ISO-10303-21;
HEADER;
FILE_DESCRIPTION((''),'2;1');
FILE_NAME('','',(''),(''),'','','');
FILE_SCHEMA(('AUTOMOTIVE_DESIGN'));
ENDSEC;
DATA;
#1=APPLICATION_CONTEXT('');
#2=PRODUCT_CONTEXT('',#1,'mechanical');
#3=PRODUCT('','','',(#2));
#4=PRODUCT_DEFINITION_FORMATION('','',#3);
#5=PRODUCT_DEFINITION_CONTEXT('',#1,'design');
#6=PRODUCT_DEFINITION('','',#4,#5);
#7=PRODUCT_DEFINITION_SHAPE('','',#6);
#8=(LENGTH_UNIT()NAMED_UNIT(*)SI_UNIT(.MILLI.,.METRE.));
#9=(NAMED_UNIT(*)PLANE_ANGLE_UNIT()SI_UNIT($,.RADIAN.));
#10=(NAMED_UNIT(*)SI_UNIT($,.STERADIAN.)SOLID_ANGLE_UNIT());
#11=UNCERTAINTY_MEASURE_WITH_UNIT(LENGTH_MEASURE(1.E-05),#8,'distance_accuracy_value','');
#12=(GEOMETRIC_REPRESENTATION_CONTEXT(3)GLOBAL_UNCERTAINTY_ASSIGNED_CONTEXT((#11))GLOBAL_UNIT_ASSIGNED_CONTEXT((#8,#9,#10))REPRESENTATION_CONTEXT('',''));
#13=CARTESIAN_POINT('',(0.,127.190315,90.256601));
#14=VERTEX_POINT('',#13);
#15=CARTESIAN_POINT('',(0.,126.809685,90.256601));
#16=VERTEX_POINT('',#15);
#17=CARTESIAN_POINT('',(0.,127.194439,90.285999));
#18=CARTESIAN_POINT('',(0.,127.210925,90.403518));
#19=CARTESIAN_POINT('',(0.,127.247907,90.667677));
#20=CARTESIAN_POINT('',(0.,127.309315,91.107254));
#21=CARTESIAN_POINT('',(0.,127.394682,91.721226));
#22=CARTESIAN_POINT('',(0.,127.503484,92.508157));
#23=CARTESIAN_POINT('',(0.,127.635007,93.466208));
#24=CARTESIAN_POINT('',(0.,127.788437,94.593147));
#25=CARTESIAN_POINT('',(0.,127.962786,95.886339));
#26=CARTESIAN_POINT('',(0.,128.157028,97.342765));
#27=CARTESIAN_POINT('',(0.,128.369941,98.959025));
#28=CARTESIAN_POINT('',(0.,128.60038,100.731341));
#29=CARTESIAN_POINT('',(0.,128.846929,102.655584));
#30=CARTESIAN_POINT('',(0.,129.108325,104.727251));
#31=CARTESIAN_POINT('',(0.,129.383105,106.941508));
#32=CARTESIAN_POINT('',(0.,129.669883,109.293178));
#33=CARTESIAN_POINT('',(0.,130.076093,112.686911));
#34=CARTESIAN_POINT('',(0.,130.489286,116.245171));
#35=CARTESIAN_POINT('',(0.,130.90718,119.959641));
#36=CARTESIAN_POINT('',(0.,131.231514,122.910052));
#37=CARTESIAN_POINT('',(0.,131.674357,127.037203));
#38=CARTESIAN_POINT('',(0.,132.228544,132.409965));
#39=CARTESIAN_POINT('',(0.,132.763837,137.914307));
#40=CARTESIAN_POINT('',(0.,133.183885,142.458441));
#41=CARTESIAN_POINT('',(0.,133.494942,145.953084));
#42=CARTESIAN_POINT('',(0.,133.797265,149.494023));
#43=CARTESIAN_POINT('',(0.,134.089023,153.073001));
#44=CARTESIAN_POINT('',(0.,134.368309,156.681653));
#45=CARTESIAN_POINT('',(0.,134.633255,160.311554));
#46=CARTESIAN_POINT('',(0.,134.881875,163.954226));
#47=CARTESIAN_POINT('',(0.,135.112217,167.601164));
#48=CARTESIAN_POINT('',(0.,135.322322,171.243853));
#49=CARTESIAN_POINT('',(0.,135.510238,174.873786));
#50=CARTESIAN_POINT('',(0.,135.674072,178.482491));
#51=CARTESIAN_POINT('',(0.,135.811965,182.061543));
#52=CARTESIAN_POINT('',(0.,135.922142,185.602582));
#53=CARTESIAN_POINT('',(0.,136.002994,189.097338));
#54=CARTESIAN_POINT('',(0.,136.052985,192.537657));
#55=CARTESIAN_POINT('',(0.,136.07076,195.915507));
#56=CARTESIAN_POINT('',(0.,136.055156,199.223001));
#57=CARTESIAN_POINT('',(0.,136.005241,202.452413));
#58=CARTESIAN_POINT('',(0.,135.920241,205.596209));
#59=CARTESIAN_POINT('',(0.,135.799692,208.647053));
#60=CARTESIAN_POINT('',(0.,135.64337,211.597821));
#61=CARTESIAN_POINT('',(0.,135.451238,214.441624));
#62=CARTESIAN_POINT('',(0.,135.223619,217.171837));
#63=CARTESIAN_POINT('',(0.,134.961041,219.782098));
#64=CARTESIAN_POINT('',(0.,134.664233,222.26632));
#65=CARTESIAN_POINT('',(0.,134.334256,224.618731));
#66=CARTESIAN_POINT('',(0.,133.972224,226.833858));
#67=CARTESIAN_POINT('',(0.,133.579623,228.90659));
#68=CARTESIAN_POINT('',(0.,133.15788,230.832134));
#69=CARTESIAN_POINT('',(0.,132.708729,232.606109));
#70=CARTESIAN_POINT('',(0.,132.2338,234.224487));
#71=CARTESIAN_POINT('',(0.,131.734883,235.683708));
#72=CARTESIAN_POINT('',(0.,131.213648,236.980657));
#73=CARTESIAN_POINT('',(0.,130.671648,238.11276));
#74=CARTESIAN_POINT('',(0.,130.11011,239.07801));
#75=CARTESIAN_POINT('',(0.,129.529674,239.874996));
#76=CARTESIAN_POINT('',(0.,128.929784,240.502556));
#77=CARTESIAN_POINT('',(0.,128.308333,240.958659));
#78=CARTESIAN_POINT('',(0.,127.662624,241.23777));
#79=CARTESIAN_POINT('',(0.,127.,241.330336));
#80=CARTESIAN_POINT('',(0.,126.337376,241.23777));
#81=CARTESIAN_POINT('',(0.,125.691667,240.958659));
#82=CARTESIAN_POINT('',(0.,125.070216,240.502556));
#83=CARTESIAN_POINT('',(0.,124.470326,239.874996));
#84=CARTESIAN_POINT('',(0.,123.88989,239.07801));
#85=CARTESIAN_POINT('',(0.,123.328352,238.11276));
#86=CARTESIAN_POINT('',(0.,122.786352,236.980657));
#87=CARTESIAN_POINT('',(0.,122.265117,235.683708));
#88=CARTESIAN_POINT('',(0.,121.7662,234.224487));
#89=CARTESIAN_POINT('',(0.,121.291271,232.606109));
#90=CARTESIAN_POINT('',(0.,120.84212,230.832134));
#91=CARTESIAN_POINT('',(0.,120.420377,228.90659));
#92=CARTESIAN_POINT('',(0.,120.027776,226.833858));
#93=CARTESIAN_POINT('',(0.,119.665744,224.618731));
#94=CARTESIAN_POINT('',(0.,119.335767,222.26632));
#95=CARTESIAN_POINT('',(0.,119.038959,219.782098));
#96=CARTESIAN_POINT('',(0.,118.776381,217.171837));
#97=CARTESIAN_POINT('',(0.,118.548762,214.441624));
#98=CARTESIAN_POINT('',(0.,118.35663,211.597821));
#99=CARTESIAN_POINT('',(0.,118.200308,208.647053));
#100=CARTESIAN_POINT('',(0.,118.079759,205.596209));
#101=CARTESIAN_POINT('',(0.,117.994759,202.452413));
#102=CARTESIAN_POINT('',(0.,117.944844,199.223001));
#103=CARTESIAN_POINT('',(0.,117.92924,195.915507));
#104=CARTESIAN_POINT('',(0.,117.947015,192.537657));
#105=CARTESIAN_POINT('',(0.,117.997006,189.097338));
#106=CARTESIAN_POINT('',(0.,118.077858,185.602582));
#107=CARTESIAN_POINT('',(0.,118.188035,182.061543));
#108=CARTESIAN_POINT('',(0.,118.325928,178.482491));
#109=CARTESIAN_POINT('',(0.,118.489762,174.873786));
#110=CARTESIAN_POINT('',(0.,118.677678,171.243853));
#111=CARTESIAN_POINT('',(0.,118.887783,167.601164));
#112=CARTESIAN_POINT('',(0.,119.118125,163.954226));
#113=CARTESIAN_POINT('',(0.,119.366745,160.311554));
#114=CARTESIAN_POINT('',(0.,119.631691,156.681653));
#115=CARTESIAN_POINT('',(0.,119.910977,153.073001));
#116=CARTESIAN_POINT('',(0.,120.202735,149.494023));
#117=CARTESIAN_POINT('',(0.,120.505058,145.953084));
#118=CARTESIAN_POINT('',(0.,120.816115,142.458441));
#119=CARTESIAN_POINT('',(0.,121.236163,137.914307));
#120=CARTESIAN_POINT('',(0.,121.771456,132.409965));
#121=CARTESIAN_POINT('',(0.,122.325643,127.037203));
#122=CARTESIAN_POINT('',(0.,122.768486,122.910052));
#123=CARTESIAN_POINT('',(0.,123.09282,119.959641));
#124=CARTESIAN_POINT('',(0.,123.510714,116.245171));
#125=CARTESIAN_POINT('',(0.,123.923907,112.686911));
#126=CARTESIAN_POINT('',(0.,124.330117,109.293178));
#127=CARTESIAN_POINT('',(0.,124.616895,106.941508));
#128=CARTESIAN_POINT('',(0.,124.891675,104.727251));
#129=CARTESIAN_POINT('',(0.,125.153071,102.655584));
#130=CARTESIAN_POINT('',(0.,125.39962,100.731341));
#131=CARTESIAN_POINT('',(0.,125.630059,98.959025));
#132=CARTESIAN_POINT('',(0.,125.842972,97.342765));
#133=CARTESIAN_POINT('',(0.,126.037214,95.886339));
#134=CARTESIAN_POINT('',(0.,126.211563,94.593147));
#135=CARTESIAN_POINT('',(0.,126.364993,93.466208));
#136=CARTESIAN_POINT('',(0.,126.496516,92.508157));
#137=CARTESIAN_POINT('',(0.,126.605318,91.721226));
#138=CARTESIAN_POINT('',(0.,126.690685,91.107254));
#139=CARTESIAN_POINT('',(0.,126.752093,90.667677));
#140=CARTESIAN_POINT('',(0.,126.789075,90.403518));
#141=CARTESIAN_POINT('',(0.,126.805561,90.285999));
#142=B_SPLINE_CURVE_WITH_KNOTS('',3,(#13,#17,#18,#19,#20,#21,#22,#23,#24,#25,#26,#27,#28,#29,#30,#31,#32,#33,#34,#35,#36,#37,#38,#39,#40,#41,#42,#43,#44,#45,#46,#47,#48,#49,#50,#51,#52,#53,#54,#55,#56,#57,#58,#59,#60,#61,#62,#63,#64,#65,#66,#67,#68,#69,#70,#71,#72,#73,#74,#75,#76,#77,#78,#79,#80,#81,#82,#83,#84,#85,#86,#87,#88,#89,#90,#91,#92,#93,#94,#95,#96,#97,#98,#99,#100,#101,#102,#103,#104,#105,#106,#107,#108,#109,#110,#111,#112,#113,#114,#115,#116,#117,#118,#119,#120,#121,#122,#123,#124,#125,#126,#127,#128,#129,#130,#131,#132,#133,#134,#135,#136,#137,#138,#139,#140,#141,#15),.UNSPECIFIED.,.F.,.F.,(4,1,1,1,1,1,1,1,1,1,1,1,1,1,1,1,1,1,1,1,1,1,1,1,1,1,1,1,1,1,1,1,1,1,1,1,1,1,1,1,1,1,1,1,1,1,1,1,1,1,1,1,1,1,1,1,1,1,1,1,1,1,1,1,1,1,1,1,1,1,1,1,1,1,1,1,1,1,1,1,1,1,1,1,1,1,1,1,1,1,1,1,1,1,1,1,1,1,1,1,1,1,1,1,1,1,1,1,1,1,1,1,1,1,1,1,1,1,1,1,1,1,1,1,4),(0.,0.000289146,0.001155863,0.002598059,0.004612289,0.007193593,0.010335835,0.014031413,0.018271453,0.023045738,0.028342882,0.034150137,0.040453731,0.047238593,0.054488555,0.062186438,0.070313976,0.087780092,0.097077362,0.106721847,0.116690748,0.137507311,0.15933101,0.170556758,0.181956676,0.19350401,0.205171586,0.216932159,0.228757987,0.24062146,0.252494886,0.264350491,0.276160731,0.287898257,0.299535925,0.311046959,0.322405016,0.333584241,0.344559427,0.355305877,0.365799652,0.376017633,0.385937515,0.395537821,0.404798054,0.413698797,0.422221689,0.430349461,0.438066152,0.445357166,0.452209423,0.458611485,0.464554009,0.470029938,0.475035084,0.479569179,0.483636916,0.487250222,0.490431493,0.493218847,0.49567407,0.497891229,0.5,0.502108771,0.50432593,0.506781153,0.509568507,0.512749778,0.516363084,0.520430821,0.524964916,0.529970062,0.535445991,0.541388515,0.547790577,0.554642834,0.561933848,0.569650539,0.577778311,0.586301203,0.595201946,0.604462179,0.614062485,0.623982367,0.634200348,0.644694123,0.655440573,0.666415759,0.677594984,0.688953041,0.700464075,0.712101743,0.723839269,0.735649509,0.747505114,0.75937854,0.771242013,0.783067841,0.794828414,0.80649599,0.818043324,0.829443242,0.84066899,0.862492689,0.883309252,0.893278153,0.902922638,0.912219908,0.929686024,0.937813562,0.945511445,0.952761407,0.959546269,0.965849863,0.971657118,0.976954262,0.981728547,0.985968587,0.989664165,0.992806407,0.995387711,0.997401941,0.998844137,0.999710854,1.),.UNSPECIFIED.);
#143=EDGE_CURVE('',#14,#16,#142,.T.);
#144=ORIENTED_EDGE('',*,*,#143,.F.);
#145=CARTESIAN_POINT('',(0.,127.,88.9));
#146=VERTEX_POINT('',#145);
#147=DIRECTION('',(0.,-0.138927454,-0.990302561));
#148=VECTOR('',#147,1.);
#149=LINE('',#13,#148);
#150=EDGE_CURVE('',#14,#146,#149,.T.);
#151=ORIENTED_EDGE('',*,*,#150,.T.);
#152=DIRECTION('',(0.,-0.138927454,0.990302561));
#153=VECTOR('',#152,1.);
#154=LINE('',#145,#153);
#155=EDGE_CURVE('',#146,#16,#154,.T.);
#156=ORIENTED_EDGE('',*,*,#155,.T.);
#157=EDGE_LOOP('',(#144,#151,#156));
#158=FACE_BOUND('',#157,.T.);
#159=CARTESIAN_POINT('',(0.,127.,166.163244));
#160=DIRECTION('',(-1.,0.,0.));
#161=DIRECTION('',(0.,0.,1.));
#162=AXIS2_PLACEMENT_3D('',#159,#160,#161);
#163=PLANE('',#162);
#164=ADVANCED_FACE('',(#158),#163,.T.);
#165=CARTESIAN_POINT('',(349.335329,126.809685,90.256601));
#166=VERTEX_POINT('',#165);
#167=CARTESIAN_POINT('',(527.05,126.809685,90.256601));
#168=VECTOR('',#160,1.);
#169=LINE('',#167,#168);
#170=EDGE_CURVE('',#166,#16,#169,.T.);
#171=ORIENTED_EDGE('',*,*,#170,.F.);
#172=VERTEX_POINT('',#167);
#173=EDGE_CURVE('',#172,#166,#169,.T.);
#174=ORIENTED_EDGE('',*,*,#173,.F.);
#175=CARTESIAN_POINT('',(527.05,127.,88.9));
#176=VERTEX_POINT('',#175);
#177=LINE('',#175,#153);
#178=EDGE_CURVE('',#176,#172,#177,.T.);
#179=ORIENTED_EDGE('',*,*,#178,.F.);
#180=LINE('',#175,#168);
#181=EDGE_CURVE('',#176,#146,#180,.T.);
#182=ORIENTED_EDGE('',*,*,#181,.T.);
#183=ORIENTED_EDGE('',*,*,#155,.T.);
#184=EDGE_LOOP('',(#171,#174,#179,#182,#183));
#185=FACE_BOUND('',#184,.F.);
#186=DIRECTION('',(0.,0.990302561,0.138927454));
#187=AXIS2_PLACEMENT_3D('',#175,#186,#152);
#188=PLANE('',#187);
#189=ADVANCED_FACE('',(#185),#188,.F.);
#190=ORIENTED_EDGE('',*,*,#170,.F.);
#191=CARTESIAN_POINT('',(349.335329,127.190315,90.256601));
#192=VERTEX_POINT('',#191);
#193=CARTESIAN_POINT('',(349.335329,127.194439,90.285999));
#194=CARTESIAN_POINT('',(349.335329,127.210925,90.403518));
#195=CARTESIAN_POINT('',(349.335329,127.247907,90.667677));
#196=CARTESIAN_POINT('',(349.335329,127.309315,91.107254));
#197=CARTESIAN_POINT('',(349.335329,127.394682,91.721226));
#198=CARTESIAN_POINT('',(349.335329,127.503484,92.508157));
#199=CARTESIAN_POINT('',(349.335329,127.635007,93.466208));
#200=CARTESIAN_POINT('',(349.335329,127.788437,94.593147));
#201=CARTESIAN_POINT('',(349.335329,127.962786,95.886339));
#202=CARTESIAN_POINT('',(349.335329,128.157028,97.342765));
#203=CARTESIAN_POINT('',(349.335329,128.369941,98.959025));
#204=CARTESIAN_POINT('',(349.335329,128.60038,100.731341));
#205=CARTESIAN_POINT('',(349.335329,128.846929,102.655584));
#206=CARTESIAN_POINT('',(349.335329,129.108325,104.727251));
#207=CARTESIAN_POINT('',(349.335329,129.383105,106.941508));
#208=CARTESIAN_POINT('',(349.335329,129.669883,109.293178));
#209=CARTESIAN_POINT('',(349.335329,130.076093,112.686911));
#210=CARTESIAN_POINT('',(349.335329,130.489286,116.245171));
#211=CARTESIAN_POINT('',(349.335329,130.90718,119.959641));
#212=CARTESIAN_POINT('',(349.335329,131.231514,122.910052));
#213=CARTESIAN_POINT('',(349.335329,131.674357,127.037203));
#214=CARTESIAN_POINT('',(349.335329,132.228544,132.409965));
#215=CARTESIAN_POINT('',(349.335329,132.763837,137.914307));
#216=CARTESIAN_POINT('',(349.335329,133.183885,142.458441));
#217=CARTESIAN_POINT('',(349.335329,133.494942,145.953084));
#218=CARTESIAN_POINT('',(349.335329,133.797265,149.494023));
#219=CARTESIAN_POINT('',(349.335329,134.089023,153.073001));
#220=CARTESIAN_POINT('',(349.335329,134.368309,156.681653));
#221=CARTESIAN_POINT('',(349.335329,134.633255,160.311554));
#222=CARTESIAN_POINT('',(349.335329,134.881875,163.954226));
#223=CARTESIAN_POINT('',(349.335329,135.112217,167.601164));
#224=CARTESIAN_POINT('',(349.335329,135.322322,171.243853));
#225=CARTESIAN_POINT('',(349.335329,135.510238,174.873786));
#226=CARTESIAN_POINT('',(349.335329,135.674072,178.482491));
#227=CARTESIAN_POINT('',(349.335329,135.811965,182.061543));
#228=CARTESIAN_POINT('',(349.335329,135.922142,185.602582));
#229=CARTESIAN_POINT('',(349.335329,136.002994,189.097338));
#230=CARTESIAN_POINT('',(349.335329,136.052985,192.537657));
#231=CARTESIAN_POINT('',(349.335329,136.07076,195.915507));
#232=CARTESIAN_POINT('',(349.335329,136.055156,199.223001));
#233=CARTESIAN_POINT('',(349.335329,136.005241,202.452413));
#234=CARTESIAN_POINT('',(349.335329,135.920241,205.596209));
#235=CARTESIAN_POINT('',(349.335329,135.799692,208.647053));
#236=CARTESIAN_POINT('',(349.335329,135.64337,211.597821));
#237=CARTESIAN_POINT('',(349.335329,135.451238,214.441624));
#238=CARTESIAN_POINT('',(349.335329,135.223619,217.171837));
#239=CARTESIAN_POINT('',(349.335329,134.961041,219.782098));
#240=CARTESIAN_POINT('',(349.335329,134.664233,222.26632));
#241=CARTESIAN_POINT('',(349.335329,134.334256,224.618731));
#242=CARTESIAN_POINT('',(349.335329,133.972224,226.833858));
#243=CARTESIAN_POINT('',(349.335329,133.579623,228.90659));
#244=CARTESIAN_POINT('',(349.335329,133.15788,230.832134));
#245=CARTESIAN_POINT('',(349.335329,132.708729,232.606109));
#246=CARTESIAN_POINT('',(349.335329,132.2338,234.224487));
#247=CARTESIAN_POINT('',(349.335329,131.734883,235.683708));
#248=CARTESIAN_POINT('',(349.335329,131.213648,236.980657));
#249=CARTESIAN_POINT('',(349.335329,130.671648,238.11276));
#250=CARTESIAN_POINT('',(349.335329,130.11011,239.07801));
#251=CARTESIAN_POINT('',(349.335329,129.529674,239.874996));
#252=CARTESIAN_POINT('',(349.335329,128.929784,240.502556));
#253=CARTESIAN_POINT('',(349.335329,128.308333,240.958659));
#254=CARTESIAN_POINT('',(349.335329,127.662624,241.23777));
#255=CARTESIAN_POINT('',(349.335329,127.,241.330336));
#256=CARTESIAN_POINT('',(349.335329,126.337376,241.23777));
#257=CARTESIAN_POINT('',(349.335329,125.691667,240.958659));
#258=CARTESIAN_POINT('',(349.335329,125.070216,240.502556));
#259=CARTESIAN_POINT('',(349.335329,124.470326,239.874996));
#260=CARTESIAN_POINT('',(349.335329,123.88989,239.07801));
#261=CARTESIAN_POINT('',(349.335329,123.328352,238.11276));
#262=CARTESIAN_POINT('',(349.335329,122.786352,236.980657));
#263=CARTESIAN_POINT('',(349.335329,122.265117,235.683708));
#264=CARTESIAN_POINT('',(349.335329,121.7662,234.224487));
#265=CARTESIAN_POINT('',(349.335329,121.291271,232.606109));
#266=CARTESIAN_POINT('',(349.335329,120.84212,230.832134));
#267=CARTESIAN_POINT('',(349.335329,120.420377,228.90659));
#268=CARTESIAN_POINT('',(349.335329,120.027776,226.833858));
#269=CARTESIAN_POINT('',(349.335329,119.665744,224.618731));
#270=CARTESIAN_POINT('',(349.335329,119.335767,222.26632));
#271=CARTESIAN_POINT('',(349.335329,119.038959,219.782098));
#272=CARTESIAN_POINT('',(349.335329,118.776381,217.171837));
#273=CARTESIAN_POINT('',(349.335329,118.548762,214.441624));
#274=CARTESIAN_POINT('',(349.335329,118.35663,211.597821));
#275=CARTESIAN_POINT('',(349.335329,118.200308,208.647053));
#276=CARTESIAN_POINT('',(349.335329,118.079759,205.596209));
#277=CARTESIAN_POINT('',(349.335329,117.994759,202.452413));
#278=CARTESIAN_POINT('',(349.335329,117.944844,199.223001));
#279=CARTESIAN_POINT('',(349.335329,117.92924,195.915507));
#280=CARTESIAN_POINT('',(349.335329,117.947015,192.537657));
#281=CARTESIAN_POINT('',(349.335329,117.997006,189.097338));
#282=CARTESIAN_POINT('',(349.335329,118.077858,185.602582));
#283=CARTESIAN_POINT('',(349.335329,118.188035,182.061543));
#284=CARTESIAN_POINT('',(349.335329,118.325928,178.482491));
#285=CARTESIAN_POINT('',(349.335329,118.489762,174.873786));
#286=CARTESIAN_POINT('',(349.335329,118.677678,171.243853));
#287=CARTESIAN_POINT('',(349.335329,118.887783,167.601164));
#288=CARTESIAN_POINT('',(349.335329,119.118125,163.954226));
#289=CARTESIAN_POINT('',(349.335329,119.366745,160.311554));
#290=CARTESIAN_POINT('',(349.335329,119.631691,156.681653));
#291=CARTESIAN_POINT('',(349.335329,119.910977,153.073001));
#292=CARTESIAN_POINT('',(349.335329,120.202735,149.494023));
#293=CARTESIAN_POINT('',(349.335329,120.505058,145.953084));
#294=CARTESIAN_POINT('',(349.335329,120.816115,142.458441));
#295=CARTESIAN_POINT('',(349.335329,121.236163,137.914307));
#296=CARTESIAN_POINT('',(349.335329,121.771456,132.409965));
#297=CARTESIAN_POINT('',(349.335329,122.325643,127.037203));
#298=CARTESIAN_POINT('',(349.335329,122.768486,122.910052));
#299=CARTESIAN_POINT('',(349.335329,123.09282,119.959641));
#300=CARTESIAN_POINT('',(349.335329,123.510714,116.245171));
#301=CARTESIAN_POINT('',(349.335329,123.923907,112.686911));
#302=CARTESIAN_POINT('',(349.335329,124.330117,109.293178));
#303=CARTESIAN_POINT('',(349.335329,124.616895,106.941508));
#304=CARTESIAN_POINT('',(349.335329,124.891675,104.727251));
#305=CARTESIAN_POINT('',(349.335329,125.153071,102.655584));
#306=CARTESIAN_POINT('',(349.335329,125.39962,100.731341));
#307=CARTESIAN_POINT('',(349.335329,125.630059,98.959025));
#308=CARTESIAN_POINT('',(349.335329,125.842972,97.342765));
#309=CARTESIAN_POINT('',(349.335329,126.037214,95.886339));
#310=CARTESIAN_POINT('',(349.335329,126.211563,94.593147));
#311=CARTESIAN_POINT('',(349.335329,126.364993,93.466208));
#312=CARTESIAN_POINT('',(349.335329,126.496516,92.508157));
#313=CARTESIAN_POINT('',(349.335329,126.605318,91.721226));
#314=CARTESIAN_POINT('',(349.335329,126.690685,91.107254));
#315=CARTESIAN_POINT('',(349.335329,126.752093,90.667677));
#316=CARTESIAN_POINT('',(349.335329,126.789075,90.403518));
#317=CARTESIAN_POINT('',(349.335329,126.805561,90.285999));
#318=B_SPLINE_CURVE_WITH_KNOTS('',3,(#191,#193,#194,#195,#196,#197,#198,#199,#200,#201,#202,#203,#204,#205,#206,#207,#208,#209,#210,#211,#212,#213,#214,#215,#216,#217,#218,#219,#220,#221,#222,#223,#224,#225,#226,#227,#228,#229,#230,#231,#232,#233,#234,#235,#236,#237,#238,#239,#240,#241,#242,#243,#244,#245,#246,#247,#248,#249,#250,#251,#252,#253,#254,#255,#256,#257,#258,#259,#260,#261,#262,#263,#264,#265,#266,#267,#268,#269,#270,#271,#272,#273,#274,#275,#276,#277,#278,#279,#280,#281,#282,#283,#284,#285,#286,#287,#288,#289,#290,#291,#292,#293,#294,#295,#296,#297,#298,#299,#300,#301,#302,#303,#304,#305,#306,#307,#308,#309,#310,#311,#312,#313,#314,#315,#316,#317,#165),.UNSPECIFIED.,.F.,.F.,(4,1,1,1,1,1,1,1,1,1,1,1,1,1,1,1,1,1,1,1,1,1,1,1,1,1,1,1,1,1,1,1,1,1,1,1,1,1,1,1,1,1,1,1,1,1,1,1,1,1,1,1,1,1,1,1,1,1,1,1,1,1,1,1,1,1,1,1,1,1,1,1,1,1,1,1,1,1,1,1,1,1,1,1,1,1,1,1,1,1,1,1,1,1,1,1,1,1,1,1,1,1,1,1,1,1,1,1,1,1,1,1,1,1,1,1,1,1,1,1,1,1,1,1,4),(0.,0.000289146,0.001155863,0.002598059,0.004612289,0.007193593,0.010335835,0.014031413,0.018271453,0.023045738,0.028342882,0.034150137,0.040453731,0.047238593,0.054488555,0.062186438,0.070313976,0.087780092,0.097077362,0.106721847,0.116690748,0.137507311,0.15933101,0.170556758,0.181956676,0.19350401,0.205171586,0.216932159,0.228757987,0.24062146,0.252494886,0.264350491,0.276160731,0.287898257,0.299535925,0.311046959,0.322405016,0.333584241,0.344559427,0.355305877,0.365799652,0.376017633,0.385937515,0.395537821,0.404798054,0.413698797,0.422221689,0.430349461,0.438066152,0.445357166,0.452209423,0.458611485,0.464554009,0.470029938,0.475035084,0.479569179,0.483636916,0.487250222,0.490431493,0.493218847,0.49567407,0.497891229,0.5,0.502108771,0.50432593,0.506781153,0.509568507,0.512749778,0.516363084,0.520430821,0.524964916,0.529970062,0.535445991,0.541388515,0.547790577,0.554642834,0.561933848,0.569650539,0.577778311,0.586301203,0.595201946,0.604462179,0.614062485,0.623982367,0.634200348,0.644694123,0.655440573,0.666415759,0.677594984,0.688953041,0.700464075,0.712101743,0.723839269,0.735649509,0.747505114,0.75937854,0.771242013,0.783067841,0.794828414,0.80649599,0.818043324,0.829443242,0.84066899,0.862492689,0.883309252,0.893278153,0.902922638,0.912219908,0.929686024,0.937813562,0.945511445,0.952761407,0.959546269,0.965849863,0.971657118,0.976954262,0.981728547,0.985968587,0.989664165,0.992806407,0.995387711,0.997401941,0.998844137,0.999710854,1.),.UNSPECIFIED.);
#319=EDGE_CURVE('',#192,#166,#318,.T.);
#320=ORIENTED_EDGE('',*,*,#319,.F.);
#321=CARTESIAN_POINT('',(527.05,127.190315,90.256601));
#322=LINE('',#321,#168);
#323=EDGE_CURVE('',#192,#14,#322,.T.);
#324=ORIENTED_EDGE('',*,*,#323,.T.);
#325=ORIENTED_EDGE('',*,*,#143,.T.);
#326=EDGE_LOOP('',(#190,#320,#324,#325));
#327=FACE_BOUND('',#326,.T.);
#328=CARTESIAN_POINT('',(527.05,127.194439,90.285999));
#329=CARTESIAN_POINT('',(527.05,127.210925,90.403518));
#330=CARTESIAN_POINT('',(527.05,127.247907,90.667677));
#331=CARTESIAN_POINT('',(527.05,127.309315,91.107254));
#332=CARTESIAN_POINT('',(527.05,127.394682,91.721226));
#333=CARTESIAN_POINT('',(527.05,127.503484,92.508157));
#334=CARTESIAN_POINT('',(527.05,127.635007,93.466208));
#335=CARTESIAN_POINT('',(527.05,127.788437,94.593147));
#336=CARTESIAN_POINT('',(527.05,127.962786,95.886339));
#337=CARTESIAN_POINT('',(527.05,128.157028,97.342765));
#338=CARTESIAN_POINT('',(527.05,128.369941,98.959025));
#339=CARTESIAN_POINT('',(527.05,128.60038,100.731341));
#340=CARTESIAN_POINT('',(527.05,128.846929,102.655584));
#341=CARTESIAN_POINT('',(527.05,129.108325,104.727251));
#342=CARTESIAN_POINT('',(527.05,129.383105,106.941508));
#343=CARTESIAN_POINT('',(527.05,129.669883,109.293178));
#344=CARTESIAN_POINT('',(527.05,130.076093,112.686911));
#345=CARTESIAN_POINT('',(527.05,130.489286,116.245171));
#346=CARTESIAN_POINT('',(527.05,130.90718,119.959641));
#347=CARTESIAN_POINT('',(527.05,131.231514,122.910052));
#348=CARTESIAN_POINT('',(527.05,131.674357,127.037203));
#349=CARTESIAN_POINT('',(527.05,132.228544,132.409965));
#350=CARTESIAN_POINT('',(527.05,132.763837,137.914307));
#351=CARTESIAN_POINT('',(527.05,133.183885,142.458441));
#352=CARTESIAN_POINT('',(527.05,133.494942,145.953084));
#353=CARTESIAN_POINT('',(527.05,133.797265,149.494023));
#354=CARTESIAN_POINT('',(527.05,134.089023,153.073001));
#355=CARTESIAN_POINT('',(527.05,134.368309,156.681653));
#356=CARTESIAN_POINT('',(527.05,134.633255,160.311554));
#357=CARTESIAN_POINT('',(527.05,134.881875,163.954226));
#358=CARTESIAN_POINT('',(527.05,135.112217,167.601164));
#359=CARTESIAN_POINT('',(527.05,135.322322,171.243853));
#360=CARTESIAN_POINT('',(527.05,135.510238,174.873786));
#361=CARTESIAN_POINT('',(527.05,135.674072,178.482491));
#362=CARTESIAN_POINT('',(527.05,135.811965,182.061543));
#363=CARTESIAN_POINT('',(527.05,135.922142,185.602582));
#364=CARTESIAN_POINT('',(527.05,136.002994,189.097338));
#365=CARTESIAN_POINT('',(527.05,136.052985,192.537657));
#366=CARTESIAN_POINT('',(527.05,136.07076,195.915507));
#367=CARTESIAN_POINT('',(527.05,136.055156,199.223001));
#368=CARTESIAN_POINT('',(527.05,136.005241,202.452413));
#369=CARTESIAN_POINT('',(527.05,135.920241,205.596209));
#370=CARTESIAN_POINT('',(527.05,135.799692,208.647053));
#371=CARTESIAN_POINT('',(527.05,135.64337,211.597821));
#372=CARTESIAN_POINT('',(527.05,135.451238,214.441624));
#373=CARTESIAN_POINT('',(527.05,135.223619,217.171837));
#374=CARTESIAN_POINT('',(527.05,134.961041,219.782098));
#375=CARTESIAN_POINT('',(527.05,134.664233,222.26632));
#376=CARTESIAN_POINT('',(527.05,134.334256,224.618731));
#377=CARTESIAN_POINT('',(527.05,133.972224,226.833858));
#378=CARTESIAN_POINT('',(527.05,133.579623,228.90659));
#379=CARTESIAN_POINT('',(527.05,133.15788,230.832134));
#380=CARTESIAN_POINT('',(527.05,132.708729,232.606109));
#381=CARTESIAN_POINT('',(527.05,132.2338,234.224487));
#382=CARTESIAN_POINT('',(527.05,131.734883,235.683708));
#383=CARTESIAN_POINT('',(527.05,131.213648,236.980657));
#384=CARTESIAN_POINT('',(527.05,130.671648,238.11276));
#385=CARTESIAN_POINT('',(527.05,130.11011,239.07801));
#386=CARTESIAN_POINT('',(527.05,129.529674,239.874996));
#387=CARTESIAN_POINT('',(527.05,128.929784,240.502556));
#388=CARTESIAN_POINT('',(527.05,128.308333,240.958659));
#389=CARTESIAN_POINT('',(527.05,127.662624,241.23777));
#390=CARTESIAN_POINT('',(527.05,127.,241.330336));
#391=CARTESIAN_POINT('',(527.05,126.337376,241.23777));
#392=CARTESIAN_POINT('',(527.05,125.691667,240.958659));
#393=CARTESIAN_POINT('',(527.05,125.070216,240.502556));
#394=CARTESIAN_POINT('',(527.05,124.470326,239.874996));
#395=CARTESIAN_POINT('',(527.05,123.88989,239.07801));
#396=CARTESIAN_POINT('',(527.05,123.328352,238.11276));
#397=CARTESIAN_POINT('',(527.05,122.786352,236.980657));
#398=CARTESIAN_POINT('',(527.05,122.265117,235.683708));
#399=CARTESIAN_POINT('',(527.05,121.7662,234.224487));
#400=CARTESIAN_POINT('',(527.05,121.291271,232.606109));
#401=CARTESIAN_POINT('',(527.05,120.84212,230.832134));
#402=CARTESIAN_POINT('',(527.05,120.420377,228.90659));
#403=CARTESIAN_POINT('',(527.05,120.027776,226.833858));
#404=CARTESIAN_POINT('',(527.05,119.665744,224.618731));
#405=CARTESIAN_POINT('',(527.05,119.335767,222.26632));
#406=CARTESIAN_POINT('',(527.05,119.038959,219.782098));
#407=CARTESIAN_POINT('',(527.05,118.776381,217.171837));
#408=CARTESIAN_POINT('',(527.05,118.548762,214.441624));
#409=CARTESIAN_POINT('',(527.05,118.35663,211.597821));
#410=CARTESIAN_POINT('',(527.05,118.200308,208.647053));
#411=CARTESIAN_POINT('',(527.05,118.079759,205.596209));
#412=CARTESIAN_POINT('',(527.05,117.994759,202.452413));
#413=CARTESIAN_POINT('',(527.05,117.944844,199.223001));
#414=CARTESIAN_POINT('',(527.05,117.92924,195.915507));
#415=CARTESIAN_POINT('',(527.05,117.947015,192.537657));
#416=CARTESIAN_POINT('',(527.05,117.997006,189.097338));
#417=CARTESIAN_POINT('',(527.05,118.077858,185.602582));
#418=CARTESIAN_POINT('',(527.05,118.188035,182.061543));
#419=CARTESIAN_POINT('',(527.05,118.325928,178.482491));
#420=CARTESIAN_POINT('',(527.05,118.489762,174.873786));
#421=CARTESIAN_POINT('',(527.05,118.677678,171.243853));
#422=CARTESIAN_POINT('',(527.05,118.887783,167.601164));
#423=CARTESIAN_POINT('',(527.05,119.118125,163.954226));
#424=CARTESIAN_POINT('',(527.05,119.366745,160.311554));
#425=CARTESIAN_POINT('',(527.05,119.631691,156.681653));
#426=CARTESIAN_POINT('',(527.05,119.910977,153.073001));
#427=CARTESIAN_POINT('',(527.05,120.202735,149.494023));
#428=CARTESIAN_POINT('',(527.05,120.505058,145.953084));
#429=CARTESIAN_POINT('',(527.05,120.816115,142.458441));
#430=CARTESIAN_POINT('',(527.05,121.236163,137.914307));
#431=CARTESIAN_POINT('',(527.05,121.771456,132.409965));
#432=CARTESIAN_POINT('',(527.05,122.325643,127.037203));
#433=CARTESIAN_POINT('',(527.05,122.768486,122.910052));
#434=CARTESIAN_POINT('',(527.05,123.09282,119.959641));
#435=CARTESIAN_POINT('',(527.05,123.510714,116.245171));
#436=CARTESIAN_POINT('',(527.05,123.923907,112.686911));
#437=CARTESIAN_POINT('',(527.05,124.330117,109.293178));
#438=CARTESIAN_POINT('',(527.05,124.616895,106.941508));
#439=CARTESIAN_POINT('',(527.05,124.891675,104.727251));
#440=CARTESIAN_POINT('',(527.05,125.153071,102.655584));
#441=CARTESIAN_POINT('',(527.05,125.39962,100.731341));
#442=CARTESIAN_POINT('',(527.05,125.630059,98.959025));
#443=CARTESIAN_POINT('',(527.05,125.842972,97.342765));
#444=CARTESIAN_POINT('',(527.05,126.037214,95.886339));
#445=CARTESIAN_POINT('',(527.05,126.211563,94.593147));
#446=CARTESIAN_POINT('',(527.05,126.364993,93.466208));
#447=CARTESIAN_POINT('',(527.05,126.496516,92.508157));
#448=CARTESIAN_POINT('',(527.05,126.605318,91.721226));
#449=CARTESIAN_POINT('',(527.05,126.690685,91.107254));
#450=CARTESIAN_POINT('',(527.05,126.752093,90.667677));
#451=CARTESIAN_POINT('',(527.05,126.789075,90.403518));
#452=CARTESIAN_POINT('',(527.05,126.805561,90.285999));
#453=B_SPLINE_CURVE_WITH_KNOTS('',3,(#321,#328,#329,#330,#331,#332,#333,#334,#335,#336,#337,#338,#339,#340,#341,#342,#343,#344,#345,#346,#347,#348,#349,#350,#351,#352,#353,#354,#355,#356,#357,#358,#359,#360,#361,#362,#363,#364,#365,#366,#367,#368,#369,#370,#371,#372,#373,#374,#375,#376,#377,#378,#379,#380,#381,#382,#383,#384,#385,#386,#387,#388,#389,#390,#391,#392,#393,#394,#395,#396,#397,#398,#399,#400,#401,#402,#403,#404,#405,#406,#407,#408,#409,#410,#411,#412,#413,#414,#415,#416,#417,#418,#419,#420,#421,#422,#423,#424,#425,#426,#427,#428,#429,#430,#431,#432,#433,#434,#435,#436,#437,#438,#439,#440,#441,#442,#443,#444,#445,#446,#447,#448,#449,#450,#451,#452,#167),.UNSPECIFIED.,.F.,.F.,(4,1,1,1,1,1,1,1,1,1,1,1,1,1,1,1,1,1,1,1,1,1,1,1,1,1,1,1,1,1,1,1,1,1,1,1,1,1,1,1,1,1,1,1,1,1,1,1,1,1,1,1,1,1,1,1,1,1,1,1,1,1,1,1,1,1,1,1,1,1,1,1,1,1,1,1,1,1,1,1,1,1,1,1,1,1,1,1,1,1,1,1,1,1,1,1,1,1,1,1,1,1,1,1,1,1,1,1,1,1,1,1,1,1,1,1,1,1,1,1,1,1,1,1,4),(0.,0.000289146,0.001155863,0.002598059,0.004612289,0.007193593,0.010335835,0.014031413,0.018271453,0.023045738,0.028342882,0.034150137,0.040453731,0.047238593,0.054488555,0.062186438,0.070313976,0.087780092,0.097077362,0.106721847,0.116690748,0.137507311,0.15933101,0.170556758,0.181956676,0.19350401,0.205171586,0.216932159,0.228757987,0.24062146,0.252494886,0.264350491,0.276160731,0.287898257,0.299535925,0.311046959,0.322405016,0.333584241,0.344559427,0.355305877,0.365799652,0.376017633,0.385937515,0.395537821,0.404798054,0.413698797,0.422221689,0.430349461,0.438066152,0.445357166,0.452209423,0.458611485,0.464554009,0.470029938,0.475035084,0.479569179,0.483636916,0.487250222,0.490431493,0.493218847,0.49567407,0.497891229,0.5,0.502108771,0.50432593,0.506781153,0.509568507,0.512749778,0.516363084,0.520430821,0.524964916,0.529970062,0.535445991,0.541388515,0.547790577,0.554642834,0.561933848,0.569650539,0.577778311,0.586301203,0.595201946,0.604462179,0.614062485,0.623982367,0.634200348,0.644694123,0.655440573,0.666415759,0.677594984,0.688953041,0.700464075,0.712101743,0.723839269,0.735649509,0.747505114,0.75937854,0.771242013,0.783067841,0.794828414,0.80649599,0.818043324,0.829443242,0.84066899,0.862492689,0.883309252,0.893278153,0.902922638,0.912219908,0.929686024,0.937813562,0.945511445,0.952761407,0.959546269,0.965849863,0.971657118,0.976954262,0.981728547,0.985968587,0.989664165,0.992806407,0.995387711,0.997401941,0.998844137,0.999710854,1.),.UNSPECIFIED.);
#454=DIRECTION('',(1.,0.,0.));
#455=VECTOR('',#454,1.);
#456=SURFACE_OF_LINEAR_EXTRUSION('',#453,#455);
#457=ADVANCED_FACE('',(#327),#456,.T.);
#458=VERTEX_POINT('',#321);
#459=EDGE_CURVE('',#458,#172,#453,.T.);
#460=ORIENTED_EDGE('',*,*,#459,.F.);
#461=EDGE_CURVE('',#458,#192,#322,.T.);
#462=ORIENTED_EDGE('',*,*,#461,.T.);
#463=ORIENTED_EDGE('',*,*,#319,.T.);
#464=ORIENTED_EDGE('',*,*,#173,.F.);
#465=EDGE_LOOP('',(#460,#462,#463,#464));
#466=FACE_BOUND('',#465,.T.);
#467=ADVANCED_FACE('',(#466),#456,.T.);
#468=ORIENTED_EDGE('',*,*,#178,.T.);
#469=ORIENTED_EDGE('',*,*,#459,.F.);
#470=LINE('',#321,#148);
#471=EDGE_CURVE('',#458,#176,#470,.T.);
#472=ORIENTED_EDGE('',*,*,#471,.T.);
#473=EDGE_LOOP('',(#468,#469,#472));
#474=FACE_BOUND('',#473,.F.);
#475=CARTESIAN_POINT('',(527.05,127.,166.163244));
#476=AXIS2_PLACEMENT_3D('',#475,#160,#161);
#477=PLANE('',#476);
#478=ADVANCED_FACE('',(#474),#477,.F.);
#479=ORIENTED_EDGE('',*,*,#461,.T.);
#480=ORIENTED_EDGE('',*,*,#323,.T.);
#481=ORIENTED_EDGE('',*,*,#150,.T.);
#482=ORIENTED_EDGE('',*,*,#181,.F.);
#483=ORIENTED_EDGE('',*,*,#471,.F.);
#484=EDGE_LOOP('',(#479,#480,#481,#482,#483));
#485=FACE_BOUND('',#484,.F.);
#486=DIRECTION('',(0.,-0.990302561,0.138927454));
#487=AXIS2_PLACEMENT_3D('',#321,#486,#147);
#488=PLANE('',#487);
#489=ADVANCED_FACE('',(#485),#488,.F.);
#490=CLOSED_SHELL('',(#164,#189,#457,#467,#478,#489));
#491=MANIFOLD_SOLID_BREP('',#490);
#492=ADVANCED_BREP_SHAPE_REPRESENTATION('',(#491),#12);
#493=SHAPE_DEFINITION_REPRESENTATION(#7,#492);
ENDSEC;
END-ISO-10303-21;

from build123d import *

# Parameters (mm, degrees)
BOSS_EXTRUDE1_DEPTH = 177.714671014
BOSS_EXTRUDE2_DEPTH = 527.05


with BuildPart() as part:
    # Sketch1 → Boss-Extrude1 (new body)
    with BuildSketch(Plane.ZY.offset(-527.05)):
        with BuildLine():
            Line((90.256600966, 127.190314683), (88.9, 127))
            Line((88.9, 127), (90.256600966, 126.809685317))
            add(Edge.make_bspline(
                [(90.256600966, 127.190314683), (90.285998949, 127.194438864), (90.403517599, 127.210925307), (90.667677308, 127.247907233), (91.107254438, 127.309315268), (91.721225997, 127.39468201), (92.508157286, 127.503483942), (93.466208372, 127.635007189), (94.593146869, 127.788436676), (95.886339404, 127.962786274), (97.342764986, 128.157028283), (98.959025026, 128.369940625), (100.731340522, 128.600379614), (102.655583818, 128.846929333), (104.727251041, 129.108325484), (106.941508162, 129.383104882), (109.293177649, 129.669882536), (112.686910903, 130.076092911), (116.24517089, 130.489286188), (119.95964142, 130.90717993), (122.910052341, 131.231514327), (127.037203042, 131.67435662), (132.409964501, 132.228543619), (137.914306642, 132.763837247), (142.458441394, 133.183885291), (145.953084287, 133.494941661), (149.494023036, 133.797264865), (153.073000836, 134.089022571), (156.681653184, 134.368308904), (160.31155448, 134.633255021), (163.954225891, 134.881874949), (167.601164395, 135.11221666), (171.243853054, 135.322321533), (174.873785803, 135.510237645), (178.48249074, 135.674071865), (182.061542786, 135.811964641), (185.602581997, 135.922141929), (189.097337704, 136.002994499), (192.537657068, 136.052985429), (195.915507053, 136.070760167), (199.223000637, 136.055156342), (202.452412847, 136.005240886), (205.596209193, 135.920241091), (208.647052957, 135.799692485), (211.59782117, 135.643369711), (214.441624168, 135.451237843), (217.171837005, 135.223619464), (219.782097978, 134.961041088), (222.266320491, 134.664233336), (224.618731153, 134.334256407), (226.833858393, 133.972224286), (228.906589787, 133.579622743), (230.832133765, 133.15788022), (232.606108506, 132.708729234), (234.224487192, 132.23380033), (235.683708056, 131.734882807), (236.980656583, 131.213648142), (238.112759781, 130.671647799), (239.078010408, 130.110110377), (239.874995811, 129.529673889), (240.502555536, 128.929783753), (240.958659076, 128.308332907), (241.237769713, 127.662624097), (241.330335542, 127), (241.237769713, 126.337375903), (240.958659076, 125.691667093), (240.502555536, 125.070216247), (239.874995811, 124.470326111), (239.078010408, 123.889889623), (238.112759781, 123.328352201), (236.980656583, 122.786351858), (235.683708056, 122.265117193), (234.224487192, 121.76619967), (232.606108506, 121.291270766), (230.832133765, 120.84211978), (228.906589787, 120.420377257), (226.833858393, 120.027775714), (224.618731153, 119.665743593), (222.266320491, 119.335766664), (219.782097978, 119.038958912), (217.171837005, 118.776380536), (214.441624168, 118.548762157), (211.59782117, 118.356630289), (208.647052957, 118.200307515), (205.596209193, 118.079758909), (202.452412847, 117.994759114), (199.223000637, 117.944843658), (195.915507053, 117.929239833), (192.537657068, 117.947014571), (189.097337704, 117.997005501), (185.602581997, 118.077858071), (182.061542786, 118.188035359), (178.48249074, 118.325928135), (174.873785803, 118.489762355), (171.243853054, 118.677678467), (167.601164395, 118.88778334), (163.954225891, 119.118125051), (160.31155448, 119.366744979), (156.681653184, 119.631691096), (153.073000836, 119.910977429), (149.494023036, 120.202735135), (145.953084287, 120.505058339), (142.458441394, 120.816114709), (137.914306642, 121.236162753), (132.409964501, 121.771456381), (127.037203042, 122.32564338), (122.910052341, 122.768485673), (119.95964142, 123.09282007), (116.24517089, 123.510713812), (112.686910903, 123.923907089), (109.293177649, 124.330117464), (106.941508162, 124.616895118), (104.727251041, 124.891674516), (102.655583818, 125.153070667), (100.731340522, 125.399620386), (98.959025026, 125.630059375), (97.342764986, 125.842971717), (95.886339404, 126.037213726), (94.593146869, 126.211563324), (93.466208372, 126.364992811), (92.508157286, 126.496516058), (91.721225997, 126.60531799), (91.107254438, 126.690684732), (90.667677308, 126.752092767), (90.403517599, 126.789074693), (90.285998949, 126.805561136), (90.256600966, 126.809685317)],
                knots=[0, 0, 0, 0, 0.000289146, 0.001155863, 0.002598059, 0.004612289, 0.007193593, 0.010335835, 0.014031413, 0.018271453, 0.023045738, 0.028342882, 0.034150137, 0.040453731, 0.047238593, 0.054488555, 0.062186438, 0.070313976, 0.087780092, 0.097077362, 0.106721847, 0.116690748, 0.137507311, 0.15933101, 0.170556758, 0.181956676, 0.19350401, 0.205171586, 0.216932159, 0.228757987, 0.24062146, 0.252494886, 0.264350491, 0.276160731, 0.287898257, 0.299535925, 0.311046959, 0.322405016, 0.333584241, 0.344559427, 0.355305877, 0.365799652, 0.376017633, 0.385937515, 0.395537821, 0.404798054, 0.413698797, 0.422221689, 0.430349461, 0.438066152, 0.445357166, 0.452209423, 0.458611485, 0.464554009, 0.470029938, 0.475035084, 0.479569179, 0.483636916, 0.487250222, 0.490431493, 0.493218847, 0.49567407, 0.497891229, 0.5, 0.502108771, 0.50432593, 0.506781153, 0.509568507, 0.512749778, 0.516363084, 0.520430821, 0.524964916, 0.529970062, 0.535445991, 0.541388515, 0.547790577, 0.554642834, 0.561933848, 0.569650539, 0.577778311, 0.586301203, 0.595201946, 0.604462179, 0.614062485, 0.623982367, 0.634200348, 0.644694123, 0.655440573, 0.666415759, 0.677594984, 0.688953041, 0.700464075, 0.712101743, 0.723839269, 0.735649509, 0.747505114, 0.75937854, 0.771242013, 0.783067841, 0.794828414, 0.80649599, 0.818043324, 0.829443242, 0.84066899, 0.862492689, 0.883309252, 0.893278153, 0.902922638, 0.912219908, 0.929686024, 0.937813562, 0.945511445, 0.952761407, 0.959546269, 0.965849863, 0.971657118, 0.976954262, 0.981728547, 0.985968587, 0.989664165, 0.992806407, 0.995387711, 0.997401941, 0.998844137, 0.999710854, 1, 1, 1, 1], degree=3))
        make_face()
    extrude(amount=BOSS_EXTRUDE1_DEPTH)

    # Sketch1<2> → Boss-Extrude2 (add)
    with BuildSketch(Plane.ZY.offset(-527.05)):
        with BuildLine():
            Line((90.256600966, 127.190314683), (88.9, 127))
            Line((88.9, 127), (90.256600966, 126.809685317))
            add(Edge.make_bspline(
                [(90.256600966, 127.190314683), (90.285998949, 127.194438864), (90.403517599, 127.210925307), (90.667677308, 127.247907233), (91.107254438, 127.309315268), (91.721225997, 127.39468201), (92.508157286, 127.503483942), (93.466208372, 127.635007189), (94.593146869, 127.788436676), (95.886339404, 127.962786274), (97.342764986, 128.157028283), (98.959025026, 128.369940625), (100.731340522, 128.600379614), (102.655583818, 128.846929333), (104.727251041, 129.108325484), (106.941508162, 129.383104882), (109.293177649, 129.669882536), (112.686910903, 130.076092911), (116.24517089, 130.489286188), (119.95964142, 130.90717993), (122.910052341, 131.231514327), (127.037203042, 131.67435662), (132.409964501, 132.228543619), (137.914306642, 132.763837247), (142.458441394, 133.183885291), (145.953084287, 133.494941661), (149.494023036, 133.797264865), (153.073000836, 134.089022571), (156.681653184, 134.368308904), (160.31155448, 134.633255021), (163.954225891, 134.881874949), (167.601164395, 135.11221666), (171.243853054, 135.322321533), (174.873785803, 135.510237645), (178.48249074, 135.674071865), (182.061542786, 135.811964641), (185.602581997, 135.922141929), (189.097337704, 136.002994499), (192.537657068, 136.052985429), (195.915507053, 136.070760167), (199.223000637, 136.055156342), (202.452412847, 136.005240886), (205.596209193, 135.920241091), (208.647052957, 135.799692485), (211.59782117, 135.643369711), (214.441624168, 135.451237843), (217.171837005, 135.223619464), (219.782097978, 134.961041088), (222.266320491, 134.664233336), (224.618731153, 134.334256407), (226.833858393, 133.972224286), (228.906589787, 133.579622743), (230.832133765, 133.15788022), (232.606108506, 132.708729234), (234.224487192, 132.23380033), (235.683708056, 131.734882807), (236.980656583, 131.213648142), (238.112759781, 130.671647799), (239.078010408, 130.110110377), (239.874995811, 129.529673889), (240.502555536, 128.929783753), (240.958659076, 128.308332907), (241.237769713, 127.662624097), (241.330335542, 127), (241.237769713, 126.337375903), (240.958659076, 125.691667093), (240.502555536, 125.070216247), (239.874995811, 124.470326111), (239.078010408, 123.889889623), (238.112759781, 123.328352201), (236.980656583, 122.786351858), (235.683708056, 122.265117193), (234.224487192, 121.76619967), (232.606108506, 121.291270766), (230.832133765, 120.84211978), (228.906589787, 120.420377257), (226.833858393, 120.027775714), (224.618731153, 119.665743593), (222.266320491, 119.335766664), (219.782097978, 119.038958912), (217.171837005, 118.776380536), (214.441624168, 118.548762157), (211.59782117, 118.356630289), (208.647052957, 118.200307515), (205.596209193, 118.079758909), (202.452412847, 117.994759114), (199.223000637, 117.944843658), (195.915507053, 117.929239833), (192.537657068, 117.947014571), (189.097337704, 117.997005501), (185.602581997, 118.077858071), (182.061542786, 118.188035359), (178.48249074, 118.325928135), (174.873785803, 118.489762355), (171.243853054, 118.677678467), (167.601164395, 118.88778334), (163.954225891, 119.118125051), (160.31155448, 119.366744979), (156.681653184, 119.631691096), (153.073000836, 119.910977429), (149.494023036, 120.202735135), (145.953084287, 120.505058339), (142.458441394, 120.816114709), (137.914306642, 121.236162753), (132.409964501, 121.771456381), (127.037203042, 122.32564338), (122.910052341, 122.768485673), (119.95964142, 123.09282007), (116.24517089, 123.510713812), (112.686910903, 123.923907089), (109.293177649, 124.330117464), (106.941508162, 124.616895118), (104.727251041, 124.891674516), (102.655583818, 125.153070667), (100.731340522, 125.399620386), (98.959025026, 125.630059375), (97.342764986, 125.842971717), (95.886339404, 126.037213726), (94.593146869, 126.211563324), (93.466208372, 126.364992811), (92.508157286, 126.496516058), (91.721225997, 126.60531799), (91.107254438, 126.690684732), (90.667677308, 126.752092767), (90.403517599, 126.789074693), (90.285998949, 126.805561136), (90.256600966, 126.809685317)],
                knots=[0, 0, 0, 0, 0.000289146, 0.001155863, 0.002598059, 0.004612289, 0.007193593, 0.010335835, 0.014031413, 0.018271453, 0.023045738, 0.028342882, 0.034150137, 0.040453731, 0.047238593, 0.054488555, 0.062186438, 0.070313976, 0.087780092, 0.097077362, 0.106721847, 0.116690748, 0.137507311, 0.15933101, 0.170556758, 0.181956676, 0.19350401, 0.205171586, 0.216932159, 0.228757987, 0.24062146, 0.252494886, 0.264350491, 0.276160731, 0.287898257, 0.299535925, 0.311046959, 0.322405016, 0.333584241, 0.344559427, 0.355305877, 0.365799652, 0.376017633, 0.385937515, 0.395537821, 0.404798054, 0.413698797, 0.422221689, 0.430349461, 0.438066152, 0.445357166, 0.452209423, 0.458611485, 0.464554009, 0.470029938, 0.475035084, 0.479569179, 0.483636916, 0.487250222, 0.490431493, 0.493218847, 0.49567407, 0.497891229, 0.5, 0.502108771, 0.50432593, 0.506781153, 0.509568507, 0.512749778, 0.516363084, 0.520430821, 0.524964916, 0.529970062, 0.535445991, 0.541388515, 0.547790577, 0.554642834, 0.561933848, 0.569650539, 0.577778311, 0.586301203, 0.595201946, 0.604462179, 0.614062485, 0.623982367, 0.634200348, 0.644694123, 0.655440573, 0.666415759, 0.677594984, 0.688953041, 0.700464075, 0.712101743, 0.723839269, 0.735649509, 0.747505114, 0.75937854, 0.771242013, 0.783067841, 0.794828414, 0.80649599, 0.818043324, 0.829443242, 0.84066899, 0.862492689, 0.883309252, 0.893278153, 0.902922638, 0.912219908, 0.929686024, 0.937813562, 0.945511445, 0.952761407, 0.959546269, 0.965849863, 0.971657118, 0.976954262, 0.981728547, 0.985968587, 0.989664165, 0.992806407, 0.995387711, 0.997401941, 0.998844137, 0.999710854, 1, 1, 1, 1], degree=3))
        make_face()
    extrude(amount=BOSS_EXTRUDE2_DEPTH)


solid = part.part
